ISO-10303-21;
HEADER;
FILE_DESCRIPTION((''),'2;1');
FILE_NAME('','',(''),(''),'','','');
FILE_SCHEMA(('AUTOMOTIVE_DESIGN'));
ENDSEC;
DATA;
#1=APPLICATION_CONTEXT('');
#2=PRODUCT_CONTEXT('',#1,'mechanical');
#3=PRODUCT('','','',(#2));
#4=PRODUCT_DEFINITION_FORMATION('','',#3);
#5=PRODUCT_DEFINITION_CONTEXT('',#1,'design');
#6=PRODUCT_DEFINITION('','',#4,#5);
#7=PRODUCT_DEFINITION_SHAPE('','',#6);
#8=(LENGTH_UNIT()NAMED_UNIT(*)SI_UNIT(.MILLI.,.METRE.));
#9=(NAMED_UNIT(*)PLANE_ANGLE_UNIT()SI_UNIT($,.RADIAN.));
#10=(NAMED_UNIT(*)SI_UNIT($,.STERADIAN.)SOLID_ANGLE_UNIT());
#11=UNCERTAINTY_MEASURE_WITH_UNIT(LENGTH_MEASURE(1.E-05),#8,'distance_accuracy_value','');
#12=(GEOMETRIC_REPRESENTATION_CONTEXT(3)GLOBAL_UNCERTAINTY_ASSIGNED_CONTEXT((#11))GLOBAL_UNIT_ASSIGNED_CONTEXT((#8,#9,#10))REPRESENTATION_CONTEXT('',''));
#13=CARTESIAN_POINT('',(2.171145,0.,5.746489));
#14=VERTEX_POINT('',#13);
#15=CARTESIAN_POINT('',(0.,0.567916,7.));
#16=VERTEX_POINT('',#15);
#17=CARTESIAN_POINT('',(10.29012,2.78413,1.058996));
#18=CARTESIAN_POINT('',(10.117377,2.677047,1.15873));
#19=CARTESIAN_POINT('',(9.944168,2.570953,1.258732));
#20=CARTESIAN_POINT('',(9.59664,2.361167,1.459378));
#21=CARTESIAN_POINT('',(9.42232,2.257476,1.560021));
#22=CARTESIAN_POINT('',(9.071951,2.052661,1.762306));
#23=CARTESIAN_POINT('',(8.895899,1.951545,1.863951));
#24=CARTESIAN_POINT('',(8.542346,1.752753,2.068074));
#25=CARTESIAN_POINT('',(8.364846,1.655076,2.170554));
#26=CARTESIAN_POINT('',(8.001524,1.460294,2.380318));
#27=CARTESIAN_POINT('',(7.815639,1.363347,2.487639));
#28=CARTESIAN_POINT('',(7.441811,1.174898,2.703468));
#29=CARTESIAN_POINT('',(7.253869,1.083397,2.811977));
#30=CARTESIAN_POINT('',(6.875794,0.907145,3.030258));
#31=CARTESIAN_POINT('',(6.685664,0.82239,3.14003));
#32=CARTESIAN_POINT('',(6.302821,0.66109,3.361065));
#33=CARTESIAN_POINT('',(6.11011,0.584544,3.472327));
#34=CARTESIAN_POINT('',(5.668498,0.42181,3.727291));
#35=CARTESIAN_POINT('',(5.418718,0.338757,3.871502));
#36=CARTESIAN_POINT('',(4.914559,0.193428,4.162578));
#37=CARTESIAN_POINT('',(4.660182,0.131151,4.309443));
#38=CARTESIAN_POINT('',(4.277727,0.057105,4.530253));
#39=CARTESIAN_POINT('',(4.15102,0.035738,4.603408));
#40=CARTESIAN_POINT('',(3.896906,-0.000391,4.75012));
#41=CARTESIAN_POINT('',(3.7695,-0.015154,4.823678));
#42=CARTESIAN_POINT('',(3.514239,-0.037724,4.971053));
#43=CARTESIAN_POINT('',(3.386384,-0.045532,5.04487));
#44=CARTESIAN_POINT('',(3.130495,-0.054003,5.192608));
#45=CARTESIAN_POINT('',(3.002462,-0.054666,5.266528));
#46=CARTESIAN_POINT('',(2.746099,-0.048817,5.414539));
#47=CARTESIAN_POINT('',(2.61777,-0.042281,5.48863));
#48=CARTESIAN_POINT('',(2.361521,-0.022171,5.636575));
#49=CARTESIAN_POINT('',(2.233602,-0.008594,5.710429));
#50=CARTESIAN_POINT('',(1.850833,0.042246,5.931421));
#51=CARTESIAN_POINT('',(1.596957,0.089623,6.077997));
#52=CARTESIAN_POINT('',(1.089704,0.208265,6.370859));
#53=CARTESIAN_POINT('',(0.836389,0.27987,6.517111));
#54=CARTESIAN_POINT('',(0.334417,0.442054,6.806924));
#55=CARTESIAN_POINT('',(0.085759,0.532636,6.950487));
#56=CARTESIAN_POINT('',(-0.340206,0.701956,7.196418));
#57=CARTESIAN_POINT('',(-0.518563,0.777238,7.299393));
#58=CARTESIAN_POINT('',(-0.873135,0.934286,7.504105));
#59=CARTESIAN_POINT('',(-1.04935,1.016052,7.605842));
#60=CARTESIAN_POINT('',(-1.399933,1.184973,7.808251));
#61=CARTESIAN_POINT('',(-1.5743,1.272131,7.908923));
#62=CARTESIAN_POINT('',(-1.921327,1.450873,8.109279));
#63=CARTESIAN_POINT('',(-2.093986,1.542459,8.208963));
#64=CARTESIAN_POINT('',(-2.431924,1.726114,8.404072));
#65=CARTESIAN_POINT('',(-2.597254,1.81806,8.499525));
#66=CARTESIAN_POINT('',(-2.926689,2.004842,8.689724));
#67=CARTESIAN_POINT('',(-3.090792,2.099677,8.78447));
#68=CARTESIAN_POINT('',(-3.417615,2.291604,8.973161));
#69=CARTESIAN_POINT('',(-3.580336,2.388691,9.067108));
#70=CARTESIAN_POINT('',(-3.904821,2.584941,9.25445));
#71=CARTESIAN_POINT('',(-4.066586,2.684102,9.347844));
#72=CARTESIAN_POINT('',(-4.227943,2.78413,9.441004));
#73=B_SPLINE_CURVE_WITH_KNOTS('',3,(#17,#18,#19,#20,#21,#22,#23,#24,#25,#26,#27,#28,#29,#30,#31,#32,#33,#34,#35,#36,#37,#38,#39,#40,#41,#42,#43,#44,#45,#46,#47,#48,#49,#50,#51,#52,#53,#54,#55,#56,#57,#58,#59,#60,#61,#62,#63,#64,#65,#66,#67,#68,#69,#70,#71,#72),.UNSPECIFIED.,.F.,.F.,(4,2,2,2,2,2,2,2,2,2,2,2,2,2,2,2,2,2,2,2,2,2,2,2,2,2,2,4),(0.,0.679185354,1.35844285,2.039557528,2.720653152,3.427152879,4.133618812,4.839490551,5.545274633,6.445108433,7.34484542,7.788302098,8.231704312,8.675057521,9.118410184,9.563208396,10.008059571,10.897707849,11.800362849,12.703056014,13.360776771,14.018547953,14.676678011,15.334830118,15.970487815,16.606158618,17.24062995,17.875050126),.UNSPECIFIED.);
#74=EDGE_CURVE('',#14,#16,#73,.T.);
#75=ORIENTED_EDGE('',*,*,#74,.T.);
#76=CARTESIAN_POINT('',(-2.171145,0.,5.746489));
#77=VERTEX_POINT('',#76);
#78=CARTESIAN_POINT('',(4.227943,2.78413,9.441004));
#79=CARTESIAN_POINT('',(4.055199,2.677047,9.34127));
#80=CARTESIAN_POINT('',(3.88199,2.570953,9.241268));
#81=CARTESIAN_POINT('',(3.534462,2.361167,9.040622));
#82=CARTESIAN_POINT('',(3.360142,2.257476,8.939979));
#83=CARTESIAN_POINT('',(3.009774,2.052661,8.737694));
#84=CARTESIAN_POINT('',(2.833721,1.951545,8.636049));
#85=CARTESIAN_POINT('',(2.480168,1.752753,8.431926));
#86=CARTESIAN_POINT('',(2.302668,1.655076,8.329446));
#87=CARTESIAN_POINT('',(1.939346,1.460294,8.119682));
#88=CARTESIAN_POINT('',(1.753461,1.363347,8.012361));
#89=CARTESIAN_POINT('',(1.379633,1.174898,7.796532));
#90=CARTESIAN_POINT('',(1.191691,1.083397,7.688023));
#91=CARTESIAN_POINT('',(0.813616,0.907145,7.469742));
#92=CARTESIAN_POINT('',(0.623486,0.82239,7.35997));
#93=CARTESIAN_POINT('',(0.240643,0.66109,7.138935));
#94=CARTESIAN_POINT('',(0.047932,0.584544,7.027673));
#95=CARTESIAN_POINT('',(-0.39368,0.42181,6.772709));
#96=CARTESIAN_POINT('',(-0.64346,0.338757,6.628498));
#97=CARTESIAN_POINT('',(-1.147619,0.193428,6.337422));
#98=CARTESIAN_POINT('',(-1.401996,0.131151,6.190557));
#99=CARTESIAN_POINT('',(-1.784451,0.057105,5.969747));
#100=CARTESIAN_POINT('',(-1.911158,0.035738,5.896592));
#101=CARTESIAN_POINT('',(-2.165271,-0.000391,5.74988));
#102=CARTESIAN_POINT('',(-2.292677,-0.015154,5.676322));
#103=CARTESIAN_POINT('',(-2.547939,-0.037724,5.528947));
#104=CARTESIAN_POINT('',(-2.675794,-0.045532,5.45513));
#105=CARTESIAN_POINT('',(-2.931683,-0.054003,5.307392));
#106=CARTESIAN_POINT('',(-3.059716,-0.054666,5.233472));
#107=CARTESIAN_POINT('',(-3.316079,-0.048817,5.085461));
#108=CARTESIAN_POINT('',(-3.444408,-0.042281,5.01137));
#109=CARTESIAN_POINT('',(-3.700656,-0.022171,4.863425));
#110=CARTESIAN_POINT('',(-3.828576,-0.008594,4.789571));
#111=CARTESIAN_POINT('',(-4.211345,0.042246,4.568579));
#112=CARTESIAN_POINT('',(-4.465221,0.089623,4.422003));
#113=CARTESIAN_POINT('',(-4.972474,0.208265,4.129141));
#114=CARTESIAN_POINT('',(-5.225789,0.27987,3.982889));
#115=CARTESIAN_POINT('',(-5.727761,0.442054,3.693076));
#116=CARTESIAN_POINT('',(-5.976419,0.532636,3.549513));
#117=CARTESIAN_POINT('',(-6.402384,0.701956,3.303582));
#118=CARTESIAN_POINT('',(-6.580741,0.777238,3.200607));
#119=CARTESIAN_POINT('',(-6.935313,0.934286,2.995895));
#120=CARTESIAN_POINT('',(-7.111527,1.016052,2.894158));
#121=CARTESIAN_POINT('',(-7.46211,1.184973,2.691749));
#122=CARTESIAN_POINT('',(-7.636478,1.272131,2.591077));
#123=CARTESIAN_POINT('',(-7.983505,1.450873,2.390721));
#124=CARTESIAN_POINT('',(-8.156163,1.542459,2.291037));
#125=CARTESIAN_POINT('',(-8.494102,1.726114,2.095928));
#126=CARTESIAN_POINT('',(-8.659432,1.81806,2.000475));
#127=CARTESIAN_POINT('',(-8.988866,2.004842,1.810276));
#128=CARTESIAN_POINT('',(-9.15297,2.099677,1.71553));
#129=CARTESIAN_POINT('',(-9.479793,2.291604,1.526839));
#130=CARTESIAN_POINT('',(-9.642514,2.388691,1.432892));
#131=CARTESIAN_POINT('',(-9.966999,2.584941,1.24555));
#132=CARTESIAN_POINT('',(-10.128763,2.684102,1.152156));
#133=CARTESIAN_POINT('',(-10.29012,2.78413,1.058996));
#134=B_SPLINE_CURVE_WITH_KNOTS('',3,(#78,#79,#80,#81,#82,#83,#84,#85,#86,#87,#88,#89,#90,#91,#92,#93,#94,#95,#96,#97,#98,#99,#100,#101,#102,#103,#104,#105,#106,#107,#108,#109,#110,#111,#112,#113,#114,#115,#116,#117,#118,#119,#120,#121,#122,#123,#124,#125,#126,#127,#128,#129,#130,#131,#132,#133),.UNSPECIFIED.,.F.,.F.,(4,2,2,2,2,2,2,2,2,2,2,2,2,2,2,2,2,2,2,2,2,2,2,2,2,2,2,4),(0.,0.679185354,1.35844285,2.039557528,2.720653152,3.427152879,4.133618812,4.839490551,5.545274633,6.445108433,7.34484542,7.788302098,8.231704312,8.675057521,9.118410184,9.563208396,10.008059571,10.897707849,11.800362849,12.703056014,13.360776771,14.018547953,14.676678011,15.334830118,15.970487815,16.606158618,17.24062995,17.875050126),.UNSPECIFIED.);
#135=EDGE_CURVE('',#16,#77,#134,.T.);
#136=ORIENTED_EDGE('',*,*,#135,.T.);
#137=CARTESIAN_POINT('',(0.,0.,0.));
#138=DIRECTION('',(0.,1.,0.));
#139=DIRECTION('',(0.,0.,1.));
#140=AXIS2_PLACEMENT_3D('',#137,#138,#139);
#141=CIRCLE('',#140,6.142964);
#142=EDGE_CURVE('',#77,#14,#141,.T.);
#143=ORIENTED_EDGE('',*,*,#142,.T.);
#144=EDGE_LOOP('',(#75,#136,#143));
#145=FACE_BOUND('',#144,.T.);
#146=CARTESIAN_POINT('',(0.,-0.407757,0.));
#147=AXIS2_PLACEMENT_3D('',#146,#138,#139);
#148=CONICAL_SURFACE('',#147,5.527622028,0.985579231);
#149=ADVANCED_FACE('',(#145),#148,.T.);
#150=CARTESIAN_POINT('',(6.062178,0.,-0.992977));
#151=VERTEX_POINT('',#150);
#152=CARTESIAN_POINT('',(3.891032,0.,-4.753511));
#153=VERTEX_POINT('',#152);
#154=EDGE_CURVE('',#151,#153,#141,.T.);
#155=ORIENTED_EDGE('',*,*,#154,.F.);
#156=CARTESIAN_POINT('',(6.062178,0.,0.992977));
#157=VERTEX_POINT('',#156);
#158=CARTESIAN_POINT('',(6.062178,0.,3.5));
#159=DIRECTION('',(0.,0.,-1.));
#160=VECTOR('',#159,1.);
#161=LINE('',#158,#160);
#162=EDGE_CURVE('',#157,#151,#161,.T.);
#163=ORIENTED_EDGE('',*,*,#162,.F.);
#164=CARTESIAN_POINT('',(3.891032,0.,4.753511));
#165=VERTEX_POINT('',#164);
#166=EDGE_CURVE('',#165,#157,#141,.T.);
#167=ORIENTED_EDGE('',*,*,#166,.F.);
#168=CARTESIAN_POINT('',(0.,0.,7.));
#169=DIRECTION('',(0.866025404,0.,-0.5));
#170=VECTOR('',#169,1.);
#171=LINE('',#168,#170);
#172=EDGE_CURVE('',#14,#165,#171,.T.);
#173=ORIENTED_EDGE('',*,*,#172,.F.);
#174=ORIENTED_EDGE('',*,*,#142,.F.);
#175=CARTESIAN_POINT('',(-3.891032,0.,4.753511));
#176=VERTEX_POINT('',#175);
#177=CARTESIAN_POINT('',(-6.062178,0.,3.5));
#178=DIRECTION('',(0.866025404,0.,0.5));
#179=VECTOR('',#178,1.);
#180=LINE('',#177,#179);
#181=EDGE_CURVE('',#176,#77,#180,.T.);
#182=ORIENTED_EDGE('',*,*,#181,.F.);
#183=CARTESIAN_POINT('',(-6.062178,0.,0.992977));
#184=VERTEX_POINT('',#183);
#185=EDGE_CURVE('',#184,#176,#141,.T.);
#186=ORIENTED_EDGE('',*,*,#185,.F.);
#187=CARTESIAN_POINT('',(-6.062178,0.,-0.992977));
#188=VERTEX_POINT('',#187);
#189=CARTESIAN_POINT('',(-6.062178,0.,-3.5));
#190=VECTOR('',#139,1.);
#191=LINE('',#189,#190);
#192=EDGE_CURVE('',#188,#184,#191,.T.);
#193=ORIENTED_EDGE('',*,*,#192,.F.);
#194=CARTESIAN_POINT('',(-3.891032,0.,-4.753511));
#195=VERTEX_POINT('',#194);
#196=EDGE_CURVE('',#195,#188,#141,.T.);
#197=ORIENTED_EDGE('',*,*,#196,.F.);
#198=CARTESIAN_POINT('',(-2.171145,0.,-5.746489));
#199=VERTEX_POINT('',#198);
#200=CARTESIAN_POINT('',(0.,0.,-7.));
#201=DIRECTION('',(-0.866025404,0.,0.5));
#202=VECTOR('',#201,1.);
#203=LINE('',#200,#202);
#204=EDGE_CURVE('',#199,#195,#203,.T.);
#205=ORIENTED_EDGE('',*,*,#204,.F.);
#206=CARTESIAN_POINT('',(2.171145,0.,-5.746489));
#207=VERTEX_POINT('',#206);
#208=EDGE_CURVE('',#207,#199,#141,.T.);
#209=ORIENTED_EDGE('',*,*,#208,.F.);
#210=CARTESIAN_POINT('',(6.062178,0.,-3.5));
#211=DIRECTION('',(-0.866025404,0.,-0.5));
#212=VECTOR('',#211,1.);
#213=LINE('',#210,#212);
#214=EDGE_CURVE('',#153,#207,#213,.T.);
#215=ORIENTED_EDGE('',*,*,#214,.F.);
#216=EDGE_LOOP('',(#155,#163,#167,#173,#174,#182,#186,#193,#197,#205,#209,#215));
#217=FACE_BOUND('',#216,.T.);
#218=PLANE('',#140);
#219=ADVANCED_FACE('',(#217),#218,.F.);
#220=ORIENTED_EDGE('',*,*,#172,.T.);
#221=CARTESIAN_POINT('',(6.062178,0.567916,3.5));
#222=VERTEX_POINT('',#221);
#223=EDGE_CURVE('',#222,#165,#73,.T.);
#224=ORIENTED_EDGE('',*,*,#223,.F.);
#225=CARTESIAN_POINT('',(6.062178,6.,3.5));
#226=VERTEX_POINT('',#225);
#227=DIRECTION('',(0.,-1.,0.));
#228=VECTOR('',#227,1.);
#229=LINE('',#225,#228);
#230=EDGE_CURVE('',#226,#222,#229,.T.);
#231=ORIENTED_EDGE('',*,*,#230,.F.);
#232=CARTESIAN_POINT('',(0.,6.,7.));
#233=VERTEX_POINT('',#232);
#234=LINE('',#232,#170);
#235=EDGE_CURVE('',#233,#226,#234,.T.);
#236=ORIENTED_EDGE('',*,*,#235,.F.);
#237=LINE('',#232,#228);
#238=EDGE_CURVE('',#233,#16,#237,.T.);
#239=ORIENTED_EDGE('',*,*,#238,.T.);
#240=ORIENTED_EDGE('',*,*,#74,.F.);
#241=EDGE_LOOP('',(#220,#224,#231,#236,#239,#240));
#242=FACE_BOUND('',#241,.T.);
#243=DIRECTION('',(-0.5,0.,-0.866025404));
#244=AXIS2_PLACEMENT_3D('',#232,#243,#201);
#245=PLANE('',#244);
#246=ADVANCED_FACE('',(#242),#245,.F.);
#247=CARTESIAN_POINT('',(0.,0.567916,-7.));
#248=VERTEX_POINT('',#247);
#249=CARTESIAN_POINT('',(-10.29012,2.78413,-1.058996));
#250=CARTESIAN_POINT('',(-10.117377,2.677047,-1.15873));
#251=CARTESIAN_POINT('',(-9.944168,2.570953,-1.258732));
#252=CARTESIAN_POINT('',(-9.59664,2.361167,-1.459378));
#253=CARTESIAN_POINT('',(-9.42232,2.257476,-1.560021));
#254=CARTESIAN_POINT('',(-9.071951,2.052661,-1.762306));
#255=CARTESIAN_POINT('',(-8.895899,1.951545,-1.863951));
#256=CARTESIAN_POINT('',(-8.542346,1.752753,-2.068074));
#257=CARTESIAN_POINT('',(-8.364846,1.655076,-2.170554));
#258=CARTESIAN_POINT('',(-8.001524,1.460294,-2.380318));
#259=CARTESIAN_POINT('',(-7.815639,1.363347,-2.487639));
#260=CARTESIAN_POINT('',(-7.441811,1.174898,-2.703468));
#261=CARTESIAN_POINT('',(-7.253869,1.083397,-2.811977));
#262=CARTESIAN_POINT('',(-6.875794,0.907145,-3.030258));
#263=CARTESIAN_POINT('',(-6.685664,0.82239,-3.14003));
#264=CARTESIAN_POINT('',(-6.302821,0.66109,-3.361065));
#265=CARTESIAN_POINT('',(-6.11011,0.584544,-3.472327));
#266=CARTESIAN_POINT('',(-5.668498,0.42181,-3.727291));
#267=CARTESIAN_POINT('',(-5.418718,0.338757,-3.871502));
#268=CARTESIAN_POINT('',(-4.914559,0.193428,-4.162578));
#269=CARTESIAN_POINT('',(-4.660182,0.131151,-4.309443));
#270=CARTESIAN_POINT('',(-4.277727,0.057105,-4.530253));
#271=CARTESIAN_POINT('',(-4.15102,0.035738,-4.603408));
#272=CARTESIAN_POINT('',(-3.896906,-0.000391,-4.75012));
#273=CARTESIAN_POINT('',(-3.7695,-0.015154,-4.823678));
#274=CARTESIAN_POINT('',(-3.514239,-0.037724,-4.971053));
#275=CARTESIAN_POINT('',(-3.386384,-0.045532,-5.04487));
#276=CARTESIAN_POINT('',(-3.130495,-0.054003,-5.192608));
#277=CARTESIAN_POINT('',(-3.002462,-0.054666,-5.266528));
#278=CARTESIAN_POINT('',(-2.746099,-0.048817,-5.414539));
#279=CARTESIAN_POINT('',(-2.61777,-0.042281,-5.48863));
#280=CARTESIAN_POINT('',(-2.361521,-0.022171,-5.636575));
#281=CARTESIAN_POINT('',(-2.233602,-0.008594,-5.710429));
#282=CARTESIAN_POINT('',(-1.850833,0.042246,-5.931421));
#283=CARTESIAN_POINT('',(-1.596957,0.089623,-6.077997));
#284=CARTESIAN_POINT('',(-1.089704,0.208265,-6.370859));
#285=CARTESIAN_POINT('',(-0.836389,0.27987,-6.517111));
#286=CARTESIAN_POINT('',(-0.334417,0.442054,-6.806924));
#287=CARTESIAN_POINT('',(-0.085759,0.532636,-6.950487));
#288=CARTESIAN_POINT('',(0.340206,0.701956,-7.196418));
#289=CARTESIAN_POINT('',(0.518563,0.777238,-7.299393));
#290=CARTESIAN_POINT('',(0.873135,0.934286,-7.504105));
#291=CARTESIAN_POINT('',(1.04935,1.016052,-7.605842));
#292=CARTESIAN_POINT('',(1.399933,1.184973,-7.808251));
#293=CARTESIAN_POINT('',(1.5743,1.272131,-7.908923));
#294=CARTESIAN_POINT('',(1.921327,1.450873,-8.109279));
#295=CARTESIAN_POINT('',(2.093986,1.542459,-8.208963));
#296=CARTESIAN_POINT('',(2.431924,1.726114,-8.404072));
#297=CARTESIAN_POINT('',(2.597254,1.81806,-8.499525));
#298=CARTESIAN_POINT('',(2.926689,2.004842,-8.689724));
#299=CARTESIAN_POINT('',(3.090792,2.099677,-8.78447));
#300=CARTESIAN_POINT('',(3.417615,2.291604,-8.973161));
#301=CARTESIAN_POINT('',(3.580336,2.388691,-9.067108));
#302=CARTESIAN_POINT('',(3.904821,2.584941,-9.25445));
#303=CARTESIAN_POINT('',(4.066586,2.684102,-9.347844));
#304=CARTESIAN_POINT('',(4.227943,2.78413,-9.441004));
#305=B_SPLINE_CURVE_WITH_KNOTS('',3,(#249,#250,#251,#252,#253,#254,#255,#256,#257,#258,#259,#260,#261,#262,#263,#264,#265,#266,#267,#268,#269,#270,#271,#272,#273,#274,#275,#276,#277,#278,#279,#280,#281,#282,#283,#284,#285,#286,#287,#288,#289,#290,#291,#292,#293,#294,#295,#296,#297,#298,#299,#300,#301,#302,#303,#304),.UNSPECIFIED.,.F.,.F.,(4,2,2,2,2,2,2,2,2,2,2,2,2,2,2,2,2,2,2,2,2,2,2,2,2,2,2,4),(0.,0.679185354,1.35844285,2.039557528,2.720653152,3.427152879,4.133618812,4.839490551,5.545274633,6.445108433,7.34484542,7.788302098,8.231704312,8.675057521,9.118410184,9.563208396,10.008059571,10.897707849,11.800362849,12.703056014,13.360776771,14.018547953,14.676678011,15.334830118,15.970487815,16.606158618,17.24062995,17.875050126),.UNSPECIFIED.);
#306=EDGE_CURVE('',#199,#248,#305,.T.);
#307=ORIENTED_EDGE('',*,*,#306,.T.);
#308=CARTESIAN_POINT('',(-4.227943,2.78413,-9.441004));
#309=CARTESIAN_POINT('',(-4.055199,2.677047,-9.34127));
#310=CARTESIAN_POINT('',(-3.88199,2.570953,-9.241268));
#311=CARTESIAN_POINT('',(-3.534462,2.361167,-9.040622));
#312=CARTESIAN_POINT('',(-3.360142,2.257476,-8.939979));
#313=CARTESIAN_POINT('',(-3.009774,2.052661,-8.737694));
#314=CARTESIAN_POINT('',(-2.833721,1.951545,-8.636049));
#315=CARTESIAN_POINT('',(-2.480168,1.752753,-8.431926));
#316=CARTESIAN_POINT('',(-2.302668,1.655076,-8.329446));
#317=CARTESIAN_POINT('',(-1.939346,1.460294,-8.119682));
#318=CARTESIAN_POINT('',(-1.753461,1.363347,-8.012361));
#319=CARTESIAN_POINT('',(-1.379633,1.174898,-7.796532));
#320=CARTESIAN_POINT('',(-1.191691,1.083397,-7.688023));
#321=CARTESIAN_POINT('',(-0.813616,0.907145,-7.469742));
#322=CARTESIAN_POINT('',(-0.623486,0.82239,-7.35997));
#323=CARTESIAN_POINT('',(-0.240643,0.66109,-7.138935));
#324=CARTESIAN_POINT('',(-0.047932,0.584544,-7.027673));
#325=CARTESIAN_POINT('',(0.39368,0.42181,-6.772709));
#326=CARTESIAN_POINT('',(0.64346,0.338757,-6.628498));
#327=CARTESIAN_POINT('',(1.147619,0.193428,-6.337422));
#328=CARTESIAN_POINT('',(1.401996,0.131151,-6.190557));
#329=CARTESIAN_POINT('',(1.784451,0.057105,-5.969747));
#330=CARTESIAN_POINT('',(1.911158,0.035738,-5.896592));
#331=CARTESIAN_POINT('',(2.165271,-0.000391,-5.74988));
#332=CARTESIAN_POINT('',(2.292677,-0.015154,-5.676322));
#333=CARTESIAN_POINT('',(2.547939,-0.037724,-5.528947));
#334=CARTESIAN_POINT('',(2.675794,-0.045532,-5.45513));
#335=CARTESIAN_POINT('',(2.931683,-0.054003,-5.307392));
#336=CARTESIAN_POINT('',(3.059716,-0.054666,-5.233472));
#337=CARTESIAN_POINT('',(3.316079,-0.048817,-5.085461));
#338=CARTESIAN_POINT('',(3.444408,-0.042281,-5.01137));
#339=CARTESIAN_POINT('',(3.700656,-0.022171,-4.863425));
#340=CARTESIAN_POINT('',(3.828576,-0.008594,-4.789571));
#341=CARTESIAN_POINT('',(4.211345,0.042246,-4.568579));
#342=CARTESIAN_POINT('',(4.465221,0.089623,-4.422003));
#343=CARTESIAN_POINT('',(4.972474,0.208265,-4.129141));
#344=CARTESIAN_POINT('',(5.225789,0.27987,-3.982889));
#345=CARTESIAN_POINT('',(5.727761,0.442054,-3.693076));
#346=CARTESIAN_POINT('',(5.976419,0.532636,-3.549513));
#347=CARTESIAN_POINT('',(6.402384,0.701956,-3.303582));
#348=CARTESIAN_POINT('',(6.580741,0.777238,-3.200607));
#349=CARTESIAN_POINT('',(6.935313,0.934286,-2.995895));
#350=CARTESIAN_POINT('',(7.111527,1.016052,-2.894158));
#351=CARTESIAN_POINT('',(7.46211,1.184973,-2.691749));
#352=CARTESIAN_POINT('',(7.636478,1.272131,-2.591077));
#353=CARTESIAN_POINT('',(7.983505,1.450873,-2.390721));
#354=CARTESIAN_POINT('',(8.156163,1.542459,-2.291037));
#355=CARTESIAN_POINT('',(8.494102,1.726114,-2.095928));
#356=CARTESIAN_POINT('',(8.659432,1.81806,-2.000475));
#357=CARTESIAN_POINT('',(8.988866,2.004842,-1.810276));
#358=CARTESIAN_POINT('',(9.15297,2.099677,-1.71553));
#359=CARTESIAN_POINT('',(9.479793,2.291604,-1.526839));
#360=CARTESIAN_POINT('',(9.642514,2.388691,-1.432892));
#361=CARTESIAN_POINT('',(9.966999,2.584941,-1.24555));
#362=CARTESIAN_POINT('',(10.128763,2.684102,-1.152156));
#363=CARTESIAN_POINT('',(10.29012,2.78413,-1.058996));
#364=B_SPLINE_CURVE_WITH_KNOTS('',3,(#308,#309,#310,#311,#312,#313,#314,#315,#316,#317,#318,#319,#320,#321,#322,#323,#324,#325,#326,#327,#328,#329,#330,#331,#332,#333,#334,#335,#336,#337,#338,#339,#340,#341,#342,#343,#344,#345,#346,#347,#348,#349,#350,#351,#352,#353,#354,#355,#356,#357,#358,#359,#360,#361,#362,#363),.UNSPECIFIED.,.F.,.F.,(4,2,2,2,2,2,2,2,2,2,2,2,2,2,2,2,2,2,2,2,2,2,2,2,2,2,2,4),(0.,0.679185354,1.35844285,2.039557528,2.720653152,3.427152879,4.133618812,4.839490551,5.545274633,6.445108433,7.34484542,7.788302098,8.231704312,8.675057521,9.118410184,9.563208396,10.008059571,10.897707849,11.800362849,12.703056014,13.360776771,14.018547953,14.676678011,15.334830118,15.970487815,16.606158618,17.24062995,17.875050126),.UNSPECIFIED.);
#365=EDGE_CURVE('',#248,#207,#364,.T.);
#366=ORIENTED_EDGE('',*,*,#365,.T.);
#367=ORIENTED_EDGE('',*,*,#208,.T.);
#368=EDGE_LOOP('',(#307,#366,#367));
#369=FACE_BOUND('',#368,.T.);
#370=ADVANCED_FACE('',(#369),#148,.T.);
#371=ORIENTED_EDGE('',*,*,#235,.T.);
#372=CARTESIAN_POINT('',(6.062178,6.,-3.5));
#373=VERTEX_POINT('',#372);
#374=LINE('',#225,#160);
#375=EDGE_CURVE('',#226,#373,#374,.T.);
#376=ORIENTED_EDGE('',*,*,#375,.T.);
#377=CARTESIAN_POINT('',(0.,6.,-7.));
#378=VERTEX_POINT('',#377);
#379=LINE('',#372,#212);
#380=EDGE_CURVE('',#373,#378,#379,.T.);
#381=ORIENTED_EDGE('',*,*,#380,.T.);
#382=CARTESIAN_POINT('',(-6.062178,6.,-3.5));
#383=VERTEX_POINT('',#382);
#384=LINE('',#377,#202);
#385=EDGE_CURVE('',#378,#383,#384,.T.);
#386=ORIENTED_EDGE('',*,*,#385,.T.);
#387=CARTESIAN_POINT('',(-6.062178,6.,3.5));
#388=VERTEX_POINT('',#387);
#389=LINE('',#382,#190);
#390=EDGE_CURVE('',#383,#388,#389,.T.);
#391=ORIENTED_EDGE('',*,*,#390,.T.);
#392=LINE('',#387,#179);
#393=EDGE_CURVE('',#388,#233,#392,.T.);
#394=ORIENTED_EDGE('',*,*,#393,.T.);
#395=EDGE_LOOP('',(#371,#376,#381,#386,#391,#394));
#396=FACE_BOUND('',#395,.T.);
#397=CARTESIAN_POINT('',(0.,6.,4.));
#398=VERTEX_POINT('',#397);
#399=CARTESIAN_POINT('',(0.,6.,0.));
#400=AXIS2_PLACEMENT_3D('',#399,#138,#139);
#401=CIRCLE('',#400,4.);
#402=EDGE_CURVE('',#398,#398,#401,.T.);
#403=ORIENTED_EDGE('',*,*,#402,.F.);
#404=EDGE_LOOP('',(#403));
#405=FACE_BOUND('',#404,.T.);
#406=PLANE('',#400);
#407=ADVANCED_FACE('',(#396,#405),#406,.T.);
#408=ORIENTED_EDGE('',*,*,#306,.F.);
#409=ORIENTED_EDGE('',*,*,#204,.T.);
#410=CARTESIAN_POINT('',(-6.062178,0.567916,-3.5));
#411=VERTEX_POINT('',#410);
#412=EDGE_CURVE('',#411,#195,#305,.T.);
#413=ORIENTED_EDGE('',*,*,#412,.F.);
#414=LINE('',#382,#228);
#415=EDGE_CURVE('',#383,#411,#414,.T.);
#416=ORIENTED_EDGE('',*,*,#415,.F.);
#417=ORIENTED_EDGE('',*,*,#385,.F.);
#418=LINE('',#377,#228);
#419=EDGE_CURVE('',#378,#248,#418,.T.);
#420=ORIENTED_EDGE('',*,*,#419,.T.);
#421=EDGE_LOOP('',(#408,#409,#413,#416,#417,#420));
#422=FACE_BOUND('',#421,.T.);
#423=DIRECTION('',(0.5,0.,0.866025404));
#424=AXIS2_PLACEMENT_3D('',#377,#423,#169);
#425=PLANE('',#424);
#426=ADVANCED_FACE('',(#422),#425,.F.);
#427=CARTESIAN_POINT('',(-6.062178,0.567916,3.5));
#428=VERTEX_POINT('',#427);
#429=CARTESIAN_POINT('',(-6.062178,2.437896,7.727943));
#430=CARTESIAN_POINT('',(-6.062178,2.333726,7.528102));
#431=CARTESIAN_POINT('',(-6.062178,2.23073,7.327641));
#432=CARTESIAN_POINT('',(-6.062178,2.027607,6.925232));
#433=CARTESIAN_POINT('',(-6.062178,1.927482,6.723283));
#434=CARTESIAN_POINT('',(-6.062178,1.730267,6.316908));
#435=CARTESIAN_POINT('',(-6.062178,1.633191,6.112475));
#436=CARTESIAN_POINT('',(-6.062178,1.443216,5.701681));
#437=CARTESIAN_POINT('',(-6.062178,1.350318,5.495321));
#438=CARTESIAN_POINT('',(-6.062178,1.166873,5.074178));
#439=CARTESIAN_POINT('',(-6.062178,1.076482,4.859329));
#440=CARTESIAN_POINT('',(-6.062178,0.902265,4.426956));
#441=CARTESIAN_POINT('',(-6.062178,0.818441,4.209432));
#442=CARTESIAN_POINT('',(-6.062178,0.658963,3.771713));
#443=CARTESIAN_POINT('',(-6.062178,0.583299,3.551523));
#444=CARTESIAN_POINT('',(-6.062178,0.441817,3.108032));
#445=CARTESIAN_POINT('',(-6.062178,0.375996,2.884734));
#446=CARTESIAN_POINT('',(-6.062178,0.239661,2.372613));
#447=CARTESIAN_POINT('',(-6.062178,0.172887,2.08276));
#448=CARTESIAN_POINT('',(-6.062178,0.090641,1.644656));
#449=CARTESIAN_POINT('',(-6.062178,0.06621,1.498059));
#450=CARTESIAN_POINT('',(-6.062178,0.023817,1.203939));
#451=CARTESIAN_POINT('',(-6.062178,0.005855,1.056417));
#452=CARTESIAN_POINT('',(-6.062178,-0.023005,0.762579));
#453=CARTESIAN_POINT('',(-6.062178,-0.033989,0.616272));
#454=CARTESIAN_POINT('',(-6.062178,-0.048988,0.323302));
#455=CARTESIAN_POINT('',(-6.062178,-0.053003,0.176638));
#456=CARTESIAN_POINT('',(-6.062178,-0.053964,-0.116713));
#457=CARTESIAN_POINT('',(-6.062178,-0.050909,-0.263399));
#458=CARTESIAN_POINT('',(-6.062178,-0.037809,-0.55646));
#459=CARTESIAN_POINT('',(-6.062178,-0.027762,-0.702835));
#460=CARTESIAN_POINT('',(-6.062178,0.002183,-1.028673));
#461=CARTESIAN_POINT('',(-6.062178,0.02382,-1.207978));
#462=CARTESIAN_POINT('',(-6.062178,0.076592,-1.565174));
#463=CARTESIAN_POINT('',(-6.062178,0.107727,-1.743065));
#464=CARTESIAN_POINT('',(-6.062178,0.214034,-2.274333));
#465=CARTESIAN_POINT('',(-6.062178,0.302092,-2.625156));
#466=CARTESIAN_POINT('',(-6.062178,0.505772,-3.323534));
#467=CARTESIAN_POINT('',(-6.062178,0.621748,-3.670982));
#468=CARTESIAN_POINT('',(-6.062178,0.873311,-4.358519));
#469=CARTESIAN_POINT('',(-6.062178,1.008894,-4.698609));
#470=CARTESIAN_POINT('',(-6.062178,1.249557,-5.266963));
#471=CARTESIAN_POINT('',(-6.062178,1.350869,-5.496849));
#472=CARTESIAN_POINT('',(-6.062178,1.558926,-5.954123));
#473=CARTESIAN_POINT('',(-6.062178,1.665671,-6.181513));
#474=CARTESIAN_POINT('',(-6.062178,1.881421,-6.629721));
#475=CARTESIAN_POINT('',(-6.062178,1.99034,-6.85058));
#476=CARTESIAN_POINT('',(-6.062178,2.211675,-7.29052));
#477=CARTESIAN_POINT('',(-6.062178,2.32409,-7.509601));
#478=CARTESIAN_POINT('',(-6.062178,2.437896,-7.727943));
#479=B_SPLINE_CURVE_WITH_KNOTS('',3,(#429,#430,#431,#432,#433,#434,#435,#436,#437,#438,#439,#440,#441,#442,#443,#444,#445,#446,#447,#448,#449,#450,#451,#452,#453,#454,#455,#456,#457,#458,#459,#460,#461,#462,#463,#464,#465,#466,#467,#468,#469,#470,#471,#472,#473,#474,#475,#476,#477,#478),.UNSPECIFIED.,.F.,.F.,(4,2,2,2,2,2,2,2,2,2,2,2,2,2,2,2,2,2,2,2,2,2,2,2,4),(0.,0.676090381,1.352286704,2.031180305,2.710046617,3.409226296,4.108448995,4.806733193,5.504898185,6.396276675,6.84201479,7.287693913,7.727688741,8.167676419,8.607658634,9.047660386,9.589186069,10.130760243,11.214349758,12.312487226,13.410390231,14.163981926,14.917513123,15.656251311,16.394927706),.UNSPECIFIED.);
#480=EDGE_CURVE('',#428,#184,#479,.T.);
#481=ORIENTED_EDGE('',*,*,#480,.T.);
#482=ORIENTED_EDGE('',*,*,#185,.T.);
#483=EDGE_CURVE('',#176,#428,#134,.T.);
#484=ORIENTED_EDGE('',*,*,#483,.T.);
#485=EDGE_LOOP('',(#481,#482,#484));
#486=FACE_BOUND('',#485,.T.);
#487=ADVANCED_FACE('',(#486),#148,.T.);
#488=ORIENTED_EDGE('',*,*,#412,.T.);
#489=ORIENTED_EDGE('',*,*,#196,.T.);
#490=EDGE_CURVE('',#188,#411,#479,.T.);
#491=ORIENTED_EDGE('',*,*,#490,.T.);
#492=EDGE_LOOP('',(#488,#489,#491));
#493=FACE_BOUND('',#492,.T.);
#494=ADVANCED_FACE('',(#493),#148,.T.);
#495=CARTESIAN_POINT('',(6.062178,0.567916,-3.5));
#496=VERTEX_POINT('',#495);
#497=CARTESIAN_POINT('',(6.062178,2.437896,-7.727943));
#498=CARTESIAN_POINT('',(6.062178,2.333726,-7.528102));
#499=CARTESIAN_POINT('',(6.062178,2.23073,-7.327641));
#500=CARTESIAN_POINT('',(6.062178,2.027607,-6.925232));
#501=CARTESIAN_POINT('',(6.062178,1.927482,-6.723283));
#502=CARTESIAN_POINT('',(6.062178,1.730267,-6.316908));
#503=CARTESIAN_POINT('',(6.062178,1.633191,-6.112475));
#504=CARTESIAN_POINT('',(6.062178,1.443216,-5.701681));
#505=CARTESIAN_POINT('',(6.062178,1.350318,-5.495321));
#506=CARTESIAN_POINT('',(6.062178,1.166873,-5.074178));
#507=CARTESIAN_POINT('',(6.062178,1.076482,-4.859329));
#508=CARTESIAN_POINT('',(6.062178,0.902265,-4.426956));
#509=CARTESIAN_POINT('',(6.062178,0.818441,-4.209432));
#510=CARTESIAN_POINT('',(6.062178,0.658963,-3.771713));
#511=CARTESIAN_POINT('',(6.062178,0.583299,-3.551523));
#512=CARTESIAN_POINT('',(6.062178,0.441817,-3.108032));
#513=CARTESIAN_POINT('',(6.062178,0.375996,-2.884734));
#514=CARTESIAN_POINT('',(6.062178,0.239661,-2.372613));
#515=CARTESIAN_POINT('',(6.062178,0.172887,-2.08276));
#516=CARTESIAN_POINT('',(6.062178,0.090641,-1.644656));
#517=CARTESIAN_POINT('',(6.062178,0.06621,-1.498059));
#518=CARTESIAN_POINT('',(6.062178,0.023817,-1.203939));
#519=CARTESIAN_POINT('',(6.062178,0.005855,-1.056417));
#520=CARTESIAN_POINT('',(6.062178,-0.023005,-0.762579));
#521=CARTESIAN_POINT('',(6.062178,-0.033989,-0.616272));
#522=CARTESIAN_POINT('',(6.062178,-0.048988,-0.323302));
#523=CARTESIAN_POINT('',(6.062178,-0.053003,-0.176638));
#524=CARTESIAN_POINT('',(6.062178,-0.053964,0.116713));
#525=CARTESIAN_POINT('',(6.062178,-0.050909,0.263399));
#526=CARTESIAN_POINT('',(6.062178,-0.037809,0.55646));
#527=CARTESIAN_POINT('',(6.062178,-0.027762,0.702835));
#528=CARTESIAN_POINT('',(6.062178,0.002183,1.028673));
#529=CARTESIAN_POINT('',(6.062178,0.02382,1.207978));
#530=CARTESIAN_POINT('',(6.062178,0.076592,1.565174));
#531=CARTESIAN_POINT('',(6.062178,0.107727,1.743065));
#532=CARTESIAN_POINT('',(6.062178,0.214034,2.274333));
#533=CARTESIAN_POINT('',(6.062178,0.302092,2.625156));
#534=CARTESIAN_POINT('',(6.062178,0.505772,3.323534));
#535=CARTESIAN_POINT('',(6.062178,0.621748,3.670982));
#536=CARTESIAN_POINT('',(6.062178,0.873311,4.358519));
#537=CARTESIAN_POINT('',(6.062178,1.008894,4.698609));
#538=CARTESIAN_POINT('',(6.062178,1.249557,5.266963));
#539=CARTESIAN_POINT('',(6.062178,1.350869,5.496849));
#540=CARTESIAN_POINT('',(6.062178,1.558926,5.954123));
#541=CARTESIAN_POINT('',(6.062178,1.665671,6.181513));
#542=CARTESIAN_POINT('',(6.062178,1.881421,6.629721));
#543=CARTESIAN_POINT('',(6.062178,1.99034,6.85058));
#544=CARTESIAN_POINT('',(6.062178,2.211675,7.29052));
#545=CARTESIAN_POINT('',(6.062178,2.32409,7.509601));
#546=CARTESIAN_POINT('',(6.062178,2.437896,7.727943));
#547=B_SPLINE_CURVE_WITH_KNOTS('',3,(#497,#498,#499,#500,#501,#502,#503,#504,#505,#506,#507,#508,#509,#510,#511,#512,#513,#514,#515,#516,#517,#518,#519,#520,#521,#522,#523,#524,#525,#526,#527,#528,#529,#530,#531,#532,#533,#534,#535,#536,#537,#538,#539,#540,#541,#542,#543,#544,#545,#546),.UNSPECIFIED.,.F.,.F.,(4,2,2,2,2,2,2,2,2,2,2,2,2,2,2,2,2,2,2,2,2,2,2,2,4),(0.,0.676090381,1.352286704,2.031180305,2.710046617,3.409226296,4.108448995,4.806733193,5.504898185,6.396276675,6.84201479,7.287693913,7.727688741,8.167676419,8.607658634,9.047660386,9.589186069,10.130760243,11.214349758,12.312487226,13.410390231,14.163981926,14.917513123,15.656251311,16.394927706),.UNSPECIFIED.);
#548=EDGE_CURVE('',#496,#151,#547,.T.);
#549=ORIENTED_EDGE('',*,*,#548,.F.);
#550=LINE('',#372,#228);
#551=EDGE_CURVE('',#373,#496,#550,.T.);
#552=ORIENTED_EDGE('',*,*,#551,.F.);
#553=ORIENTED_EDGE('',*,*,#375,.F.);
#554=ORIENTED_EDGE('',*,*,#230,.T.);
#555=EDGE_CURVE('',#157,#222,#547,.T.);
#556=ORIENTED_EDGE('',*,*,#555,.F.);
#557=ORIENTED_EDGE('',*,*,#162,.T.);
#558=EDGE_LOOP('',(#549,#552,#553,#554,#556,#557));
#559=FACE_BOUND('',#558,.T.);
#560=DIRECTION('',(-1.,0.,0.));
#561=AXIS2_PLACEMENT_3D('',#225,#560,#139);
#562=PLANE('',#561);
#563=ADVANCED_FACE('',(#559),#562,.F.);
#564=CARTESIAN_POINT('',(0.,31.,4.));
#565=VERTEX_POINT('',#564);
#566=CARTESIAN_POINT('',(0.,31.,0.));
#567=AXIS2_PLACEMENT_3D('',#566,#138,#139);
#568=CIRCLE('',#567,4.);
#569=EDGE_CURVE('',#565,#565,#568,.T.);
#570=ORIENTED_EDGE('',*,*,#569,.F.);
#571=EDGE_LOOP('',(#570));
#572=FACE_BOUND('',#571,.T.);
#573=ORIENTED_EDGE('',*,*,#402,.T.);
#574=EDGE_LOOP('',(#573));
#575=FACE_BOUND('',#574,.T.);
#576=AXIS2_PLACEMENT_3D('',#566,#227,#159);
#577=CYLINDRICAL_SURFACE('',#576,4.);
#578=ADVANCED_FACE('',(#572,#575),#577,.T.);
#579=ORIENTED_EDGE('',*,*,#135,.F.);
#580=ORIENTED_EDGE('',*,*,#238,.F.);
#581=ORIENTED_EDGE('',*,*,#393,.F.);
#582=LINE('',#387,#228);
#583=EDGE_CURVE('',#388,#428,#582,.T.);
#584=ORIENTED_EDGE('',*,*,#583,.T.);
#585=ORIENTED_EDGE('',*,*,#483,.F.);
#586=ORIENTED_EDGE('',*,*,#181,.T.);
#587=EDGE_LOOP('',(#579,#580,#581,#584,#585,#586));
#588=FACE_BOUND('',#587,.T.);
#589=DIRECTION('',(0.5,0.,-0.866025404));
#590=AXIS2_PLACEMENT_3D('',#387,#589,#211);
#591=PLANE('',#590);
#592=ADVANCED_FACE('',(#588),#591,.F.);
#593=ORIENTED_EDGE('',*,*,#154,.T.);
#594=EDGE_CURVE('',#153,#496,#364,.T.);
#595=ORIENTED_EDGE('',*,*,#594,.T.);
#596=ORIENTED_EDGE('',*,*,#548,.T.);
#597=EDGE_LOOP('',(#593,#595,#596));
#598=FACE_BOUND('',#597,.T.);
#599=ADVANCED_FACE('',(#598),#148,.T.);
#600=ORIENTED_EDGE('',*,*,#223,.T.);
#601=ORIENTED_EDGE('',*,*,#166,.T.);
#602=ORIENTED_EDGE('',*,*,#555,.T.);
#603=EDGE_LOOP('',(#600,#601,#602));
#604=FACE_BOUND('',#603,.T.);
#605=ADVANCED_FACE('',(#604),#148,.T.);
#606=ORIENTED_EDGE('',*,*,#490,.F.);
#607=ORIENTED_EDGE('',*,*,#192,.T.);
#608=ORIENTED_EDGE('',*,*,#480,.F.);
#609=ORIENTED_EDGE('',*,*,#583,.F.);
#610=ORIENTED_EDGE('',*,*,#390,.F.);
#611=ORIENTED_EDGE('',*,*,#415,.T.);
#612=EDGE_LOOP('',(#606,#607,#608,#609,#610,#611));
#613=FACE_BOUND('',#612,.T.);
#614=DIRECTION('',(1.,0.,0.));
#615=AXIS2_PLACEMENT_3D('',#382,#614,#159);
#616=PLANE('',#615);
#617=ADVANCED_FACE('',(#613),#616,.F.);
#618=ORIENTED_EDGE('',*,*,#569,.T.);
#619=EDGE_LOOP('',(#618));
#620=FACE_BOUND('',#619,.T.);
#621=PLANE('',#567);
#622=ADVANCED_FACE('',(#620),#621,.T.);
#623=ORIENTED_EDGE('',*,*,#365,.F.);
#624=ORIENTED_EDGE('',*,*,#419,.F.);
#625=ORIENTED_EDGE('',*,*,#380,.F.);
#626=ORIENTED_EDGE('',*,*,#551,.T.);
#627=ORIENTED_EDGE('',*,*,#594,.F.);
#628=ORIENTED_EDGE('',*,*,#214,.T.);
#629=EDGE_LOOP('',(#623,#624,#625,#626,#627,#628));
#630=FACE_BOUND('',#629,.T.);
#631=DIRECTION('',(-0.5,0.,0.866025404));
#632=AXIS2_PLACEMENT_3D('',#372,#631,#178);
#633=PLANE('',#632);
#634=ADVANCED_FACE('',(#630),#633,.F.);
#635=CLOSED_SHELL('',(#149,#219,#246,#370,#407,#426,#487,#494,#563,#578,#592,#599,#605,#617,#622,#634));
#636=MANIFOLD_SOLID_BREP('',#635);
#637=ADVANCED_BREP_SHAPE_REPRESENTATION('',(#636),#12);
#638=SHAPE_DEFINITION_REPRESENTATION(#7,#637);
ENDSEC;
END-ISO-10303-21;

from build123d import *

# Parameters (mm, degrees)
BOSS_EXTRUDE1_DEPTH = 6
SKETCH6_R           = 4
BOSS_EXTRUDE2_DEPTH = 25


with BuildPart() as part:
    # Sketch1 → Boss-Extrude1 (new body)
    with BuildSketch(Plane(origin=(0, 0, 0), x_dir=(1, 0, 0), z_dir=(0, 1, 0))):
        Polygon((6.062177826, 3.5), (0, 7), (-6.062177826, 3.5), (-6.062177826, -3.5), (0, -7), (6.062177826, -3.5), align=None)
    extrude(amount=BOSS_EXTRUDE1_DEPTH)

    # Sketch5 → Cut-Revolve5 (revolve, cut)
    with BuildSketch(Plane(origin=(0, 0, 0), x_dir=(0, 0, -1), z_dir=(1, 0, 0))):
        Polygon((5.527622028, -0.407756563), (7.359129526, 0.805892984), (7.359129526, -0.407756563), align=None)
    revolve(axis=Axis((0, 0, 0), (0, 1, 0)), mode=Mode.SUBTRACT)

    # Sketch6 → Boss-Extrude2 (add)
    with BuildSketch(Plane(origin=(0, 6, 0), x_dir=(1, 0, 0), z_dir=(0, 1, 0))):
        with Locations(Location((0, 0, 0), (0, 0, 270))):  # turned: the seam where the file's is
            Circle(SKETCH6_R)
    extrude(amount=BOSS_EXTRUDE2_DEPTH)


solid = part.part
